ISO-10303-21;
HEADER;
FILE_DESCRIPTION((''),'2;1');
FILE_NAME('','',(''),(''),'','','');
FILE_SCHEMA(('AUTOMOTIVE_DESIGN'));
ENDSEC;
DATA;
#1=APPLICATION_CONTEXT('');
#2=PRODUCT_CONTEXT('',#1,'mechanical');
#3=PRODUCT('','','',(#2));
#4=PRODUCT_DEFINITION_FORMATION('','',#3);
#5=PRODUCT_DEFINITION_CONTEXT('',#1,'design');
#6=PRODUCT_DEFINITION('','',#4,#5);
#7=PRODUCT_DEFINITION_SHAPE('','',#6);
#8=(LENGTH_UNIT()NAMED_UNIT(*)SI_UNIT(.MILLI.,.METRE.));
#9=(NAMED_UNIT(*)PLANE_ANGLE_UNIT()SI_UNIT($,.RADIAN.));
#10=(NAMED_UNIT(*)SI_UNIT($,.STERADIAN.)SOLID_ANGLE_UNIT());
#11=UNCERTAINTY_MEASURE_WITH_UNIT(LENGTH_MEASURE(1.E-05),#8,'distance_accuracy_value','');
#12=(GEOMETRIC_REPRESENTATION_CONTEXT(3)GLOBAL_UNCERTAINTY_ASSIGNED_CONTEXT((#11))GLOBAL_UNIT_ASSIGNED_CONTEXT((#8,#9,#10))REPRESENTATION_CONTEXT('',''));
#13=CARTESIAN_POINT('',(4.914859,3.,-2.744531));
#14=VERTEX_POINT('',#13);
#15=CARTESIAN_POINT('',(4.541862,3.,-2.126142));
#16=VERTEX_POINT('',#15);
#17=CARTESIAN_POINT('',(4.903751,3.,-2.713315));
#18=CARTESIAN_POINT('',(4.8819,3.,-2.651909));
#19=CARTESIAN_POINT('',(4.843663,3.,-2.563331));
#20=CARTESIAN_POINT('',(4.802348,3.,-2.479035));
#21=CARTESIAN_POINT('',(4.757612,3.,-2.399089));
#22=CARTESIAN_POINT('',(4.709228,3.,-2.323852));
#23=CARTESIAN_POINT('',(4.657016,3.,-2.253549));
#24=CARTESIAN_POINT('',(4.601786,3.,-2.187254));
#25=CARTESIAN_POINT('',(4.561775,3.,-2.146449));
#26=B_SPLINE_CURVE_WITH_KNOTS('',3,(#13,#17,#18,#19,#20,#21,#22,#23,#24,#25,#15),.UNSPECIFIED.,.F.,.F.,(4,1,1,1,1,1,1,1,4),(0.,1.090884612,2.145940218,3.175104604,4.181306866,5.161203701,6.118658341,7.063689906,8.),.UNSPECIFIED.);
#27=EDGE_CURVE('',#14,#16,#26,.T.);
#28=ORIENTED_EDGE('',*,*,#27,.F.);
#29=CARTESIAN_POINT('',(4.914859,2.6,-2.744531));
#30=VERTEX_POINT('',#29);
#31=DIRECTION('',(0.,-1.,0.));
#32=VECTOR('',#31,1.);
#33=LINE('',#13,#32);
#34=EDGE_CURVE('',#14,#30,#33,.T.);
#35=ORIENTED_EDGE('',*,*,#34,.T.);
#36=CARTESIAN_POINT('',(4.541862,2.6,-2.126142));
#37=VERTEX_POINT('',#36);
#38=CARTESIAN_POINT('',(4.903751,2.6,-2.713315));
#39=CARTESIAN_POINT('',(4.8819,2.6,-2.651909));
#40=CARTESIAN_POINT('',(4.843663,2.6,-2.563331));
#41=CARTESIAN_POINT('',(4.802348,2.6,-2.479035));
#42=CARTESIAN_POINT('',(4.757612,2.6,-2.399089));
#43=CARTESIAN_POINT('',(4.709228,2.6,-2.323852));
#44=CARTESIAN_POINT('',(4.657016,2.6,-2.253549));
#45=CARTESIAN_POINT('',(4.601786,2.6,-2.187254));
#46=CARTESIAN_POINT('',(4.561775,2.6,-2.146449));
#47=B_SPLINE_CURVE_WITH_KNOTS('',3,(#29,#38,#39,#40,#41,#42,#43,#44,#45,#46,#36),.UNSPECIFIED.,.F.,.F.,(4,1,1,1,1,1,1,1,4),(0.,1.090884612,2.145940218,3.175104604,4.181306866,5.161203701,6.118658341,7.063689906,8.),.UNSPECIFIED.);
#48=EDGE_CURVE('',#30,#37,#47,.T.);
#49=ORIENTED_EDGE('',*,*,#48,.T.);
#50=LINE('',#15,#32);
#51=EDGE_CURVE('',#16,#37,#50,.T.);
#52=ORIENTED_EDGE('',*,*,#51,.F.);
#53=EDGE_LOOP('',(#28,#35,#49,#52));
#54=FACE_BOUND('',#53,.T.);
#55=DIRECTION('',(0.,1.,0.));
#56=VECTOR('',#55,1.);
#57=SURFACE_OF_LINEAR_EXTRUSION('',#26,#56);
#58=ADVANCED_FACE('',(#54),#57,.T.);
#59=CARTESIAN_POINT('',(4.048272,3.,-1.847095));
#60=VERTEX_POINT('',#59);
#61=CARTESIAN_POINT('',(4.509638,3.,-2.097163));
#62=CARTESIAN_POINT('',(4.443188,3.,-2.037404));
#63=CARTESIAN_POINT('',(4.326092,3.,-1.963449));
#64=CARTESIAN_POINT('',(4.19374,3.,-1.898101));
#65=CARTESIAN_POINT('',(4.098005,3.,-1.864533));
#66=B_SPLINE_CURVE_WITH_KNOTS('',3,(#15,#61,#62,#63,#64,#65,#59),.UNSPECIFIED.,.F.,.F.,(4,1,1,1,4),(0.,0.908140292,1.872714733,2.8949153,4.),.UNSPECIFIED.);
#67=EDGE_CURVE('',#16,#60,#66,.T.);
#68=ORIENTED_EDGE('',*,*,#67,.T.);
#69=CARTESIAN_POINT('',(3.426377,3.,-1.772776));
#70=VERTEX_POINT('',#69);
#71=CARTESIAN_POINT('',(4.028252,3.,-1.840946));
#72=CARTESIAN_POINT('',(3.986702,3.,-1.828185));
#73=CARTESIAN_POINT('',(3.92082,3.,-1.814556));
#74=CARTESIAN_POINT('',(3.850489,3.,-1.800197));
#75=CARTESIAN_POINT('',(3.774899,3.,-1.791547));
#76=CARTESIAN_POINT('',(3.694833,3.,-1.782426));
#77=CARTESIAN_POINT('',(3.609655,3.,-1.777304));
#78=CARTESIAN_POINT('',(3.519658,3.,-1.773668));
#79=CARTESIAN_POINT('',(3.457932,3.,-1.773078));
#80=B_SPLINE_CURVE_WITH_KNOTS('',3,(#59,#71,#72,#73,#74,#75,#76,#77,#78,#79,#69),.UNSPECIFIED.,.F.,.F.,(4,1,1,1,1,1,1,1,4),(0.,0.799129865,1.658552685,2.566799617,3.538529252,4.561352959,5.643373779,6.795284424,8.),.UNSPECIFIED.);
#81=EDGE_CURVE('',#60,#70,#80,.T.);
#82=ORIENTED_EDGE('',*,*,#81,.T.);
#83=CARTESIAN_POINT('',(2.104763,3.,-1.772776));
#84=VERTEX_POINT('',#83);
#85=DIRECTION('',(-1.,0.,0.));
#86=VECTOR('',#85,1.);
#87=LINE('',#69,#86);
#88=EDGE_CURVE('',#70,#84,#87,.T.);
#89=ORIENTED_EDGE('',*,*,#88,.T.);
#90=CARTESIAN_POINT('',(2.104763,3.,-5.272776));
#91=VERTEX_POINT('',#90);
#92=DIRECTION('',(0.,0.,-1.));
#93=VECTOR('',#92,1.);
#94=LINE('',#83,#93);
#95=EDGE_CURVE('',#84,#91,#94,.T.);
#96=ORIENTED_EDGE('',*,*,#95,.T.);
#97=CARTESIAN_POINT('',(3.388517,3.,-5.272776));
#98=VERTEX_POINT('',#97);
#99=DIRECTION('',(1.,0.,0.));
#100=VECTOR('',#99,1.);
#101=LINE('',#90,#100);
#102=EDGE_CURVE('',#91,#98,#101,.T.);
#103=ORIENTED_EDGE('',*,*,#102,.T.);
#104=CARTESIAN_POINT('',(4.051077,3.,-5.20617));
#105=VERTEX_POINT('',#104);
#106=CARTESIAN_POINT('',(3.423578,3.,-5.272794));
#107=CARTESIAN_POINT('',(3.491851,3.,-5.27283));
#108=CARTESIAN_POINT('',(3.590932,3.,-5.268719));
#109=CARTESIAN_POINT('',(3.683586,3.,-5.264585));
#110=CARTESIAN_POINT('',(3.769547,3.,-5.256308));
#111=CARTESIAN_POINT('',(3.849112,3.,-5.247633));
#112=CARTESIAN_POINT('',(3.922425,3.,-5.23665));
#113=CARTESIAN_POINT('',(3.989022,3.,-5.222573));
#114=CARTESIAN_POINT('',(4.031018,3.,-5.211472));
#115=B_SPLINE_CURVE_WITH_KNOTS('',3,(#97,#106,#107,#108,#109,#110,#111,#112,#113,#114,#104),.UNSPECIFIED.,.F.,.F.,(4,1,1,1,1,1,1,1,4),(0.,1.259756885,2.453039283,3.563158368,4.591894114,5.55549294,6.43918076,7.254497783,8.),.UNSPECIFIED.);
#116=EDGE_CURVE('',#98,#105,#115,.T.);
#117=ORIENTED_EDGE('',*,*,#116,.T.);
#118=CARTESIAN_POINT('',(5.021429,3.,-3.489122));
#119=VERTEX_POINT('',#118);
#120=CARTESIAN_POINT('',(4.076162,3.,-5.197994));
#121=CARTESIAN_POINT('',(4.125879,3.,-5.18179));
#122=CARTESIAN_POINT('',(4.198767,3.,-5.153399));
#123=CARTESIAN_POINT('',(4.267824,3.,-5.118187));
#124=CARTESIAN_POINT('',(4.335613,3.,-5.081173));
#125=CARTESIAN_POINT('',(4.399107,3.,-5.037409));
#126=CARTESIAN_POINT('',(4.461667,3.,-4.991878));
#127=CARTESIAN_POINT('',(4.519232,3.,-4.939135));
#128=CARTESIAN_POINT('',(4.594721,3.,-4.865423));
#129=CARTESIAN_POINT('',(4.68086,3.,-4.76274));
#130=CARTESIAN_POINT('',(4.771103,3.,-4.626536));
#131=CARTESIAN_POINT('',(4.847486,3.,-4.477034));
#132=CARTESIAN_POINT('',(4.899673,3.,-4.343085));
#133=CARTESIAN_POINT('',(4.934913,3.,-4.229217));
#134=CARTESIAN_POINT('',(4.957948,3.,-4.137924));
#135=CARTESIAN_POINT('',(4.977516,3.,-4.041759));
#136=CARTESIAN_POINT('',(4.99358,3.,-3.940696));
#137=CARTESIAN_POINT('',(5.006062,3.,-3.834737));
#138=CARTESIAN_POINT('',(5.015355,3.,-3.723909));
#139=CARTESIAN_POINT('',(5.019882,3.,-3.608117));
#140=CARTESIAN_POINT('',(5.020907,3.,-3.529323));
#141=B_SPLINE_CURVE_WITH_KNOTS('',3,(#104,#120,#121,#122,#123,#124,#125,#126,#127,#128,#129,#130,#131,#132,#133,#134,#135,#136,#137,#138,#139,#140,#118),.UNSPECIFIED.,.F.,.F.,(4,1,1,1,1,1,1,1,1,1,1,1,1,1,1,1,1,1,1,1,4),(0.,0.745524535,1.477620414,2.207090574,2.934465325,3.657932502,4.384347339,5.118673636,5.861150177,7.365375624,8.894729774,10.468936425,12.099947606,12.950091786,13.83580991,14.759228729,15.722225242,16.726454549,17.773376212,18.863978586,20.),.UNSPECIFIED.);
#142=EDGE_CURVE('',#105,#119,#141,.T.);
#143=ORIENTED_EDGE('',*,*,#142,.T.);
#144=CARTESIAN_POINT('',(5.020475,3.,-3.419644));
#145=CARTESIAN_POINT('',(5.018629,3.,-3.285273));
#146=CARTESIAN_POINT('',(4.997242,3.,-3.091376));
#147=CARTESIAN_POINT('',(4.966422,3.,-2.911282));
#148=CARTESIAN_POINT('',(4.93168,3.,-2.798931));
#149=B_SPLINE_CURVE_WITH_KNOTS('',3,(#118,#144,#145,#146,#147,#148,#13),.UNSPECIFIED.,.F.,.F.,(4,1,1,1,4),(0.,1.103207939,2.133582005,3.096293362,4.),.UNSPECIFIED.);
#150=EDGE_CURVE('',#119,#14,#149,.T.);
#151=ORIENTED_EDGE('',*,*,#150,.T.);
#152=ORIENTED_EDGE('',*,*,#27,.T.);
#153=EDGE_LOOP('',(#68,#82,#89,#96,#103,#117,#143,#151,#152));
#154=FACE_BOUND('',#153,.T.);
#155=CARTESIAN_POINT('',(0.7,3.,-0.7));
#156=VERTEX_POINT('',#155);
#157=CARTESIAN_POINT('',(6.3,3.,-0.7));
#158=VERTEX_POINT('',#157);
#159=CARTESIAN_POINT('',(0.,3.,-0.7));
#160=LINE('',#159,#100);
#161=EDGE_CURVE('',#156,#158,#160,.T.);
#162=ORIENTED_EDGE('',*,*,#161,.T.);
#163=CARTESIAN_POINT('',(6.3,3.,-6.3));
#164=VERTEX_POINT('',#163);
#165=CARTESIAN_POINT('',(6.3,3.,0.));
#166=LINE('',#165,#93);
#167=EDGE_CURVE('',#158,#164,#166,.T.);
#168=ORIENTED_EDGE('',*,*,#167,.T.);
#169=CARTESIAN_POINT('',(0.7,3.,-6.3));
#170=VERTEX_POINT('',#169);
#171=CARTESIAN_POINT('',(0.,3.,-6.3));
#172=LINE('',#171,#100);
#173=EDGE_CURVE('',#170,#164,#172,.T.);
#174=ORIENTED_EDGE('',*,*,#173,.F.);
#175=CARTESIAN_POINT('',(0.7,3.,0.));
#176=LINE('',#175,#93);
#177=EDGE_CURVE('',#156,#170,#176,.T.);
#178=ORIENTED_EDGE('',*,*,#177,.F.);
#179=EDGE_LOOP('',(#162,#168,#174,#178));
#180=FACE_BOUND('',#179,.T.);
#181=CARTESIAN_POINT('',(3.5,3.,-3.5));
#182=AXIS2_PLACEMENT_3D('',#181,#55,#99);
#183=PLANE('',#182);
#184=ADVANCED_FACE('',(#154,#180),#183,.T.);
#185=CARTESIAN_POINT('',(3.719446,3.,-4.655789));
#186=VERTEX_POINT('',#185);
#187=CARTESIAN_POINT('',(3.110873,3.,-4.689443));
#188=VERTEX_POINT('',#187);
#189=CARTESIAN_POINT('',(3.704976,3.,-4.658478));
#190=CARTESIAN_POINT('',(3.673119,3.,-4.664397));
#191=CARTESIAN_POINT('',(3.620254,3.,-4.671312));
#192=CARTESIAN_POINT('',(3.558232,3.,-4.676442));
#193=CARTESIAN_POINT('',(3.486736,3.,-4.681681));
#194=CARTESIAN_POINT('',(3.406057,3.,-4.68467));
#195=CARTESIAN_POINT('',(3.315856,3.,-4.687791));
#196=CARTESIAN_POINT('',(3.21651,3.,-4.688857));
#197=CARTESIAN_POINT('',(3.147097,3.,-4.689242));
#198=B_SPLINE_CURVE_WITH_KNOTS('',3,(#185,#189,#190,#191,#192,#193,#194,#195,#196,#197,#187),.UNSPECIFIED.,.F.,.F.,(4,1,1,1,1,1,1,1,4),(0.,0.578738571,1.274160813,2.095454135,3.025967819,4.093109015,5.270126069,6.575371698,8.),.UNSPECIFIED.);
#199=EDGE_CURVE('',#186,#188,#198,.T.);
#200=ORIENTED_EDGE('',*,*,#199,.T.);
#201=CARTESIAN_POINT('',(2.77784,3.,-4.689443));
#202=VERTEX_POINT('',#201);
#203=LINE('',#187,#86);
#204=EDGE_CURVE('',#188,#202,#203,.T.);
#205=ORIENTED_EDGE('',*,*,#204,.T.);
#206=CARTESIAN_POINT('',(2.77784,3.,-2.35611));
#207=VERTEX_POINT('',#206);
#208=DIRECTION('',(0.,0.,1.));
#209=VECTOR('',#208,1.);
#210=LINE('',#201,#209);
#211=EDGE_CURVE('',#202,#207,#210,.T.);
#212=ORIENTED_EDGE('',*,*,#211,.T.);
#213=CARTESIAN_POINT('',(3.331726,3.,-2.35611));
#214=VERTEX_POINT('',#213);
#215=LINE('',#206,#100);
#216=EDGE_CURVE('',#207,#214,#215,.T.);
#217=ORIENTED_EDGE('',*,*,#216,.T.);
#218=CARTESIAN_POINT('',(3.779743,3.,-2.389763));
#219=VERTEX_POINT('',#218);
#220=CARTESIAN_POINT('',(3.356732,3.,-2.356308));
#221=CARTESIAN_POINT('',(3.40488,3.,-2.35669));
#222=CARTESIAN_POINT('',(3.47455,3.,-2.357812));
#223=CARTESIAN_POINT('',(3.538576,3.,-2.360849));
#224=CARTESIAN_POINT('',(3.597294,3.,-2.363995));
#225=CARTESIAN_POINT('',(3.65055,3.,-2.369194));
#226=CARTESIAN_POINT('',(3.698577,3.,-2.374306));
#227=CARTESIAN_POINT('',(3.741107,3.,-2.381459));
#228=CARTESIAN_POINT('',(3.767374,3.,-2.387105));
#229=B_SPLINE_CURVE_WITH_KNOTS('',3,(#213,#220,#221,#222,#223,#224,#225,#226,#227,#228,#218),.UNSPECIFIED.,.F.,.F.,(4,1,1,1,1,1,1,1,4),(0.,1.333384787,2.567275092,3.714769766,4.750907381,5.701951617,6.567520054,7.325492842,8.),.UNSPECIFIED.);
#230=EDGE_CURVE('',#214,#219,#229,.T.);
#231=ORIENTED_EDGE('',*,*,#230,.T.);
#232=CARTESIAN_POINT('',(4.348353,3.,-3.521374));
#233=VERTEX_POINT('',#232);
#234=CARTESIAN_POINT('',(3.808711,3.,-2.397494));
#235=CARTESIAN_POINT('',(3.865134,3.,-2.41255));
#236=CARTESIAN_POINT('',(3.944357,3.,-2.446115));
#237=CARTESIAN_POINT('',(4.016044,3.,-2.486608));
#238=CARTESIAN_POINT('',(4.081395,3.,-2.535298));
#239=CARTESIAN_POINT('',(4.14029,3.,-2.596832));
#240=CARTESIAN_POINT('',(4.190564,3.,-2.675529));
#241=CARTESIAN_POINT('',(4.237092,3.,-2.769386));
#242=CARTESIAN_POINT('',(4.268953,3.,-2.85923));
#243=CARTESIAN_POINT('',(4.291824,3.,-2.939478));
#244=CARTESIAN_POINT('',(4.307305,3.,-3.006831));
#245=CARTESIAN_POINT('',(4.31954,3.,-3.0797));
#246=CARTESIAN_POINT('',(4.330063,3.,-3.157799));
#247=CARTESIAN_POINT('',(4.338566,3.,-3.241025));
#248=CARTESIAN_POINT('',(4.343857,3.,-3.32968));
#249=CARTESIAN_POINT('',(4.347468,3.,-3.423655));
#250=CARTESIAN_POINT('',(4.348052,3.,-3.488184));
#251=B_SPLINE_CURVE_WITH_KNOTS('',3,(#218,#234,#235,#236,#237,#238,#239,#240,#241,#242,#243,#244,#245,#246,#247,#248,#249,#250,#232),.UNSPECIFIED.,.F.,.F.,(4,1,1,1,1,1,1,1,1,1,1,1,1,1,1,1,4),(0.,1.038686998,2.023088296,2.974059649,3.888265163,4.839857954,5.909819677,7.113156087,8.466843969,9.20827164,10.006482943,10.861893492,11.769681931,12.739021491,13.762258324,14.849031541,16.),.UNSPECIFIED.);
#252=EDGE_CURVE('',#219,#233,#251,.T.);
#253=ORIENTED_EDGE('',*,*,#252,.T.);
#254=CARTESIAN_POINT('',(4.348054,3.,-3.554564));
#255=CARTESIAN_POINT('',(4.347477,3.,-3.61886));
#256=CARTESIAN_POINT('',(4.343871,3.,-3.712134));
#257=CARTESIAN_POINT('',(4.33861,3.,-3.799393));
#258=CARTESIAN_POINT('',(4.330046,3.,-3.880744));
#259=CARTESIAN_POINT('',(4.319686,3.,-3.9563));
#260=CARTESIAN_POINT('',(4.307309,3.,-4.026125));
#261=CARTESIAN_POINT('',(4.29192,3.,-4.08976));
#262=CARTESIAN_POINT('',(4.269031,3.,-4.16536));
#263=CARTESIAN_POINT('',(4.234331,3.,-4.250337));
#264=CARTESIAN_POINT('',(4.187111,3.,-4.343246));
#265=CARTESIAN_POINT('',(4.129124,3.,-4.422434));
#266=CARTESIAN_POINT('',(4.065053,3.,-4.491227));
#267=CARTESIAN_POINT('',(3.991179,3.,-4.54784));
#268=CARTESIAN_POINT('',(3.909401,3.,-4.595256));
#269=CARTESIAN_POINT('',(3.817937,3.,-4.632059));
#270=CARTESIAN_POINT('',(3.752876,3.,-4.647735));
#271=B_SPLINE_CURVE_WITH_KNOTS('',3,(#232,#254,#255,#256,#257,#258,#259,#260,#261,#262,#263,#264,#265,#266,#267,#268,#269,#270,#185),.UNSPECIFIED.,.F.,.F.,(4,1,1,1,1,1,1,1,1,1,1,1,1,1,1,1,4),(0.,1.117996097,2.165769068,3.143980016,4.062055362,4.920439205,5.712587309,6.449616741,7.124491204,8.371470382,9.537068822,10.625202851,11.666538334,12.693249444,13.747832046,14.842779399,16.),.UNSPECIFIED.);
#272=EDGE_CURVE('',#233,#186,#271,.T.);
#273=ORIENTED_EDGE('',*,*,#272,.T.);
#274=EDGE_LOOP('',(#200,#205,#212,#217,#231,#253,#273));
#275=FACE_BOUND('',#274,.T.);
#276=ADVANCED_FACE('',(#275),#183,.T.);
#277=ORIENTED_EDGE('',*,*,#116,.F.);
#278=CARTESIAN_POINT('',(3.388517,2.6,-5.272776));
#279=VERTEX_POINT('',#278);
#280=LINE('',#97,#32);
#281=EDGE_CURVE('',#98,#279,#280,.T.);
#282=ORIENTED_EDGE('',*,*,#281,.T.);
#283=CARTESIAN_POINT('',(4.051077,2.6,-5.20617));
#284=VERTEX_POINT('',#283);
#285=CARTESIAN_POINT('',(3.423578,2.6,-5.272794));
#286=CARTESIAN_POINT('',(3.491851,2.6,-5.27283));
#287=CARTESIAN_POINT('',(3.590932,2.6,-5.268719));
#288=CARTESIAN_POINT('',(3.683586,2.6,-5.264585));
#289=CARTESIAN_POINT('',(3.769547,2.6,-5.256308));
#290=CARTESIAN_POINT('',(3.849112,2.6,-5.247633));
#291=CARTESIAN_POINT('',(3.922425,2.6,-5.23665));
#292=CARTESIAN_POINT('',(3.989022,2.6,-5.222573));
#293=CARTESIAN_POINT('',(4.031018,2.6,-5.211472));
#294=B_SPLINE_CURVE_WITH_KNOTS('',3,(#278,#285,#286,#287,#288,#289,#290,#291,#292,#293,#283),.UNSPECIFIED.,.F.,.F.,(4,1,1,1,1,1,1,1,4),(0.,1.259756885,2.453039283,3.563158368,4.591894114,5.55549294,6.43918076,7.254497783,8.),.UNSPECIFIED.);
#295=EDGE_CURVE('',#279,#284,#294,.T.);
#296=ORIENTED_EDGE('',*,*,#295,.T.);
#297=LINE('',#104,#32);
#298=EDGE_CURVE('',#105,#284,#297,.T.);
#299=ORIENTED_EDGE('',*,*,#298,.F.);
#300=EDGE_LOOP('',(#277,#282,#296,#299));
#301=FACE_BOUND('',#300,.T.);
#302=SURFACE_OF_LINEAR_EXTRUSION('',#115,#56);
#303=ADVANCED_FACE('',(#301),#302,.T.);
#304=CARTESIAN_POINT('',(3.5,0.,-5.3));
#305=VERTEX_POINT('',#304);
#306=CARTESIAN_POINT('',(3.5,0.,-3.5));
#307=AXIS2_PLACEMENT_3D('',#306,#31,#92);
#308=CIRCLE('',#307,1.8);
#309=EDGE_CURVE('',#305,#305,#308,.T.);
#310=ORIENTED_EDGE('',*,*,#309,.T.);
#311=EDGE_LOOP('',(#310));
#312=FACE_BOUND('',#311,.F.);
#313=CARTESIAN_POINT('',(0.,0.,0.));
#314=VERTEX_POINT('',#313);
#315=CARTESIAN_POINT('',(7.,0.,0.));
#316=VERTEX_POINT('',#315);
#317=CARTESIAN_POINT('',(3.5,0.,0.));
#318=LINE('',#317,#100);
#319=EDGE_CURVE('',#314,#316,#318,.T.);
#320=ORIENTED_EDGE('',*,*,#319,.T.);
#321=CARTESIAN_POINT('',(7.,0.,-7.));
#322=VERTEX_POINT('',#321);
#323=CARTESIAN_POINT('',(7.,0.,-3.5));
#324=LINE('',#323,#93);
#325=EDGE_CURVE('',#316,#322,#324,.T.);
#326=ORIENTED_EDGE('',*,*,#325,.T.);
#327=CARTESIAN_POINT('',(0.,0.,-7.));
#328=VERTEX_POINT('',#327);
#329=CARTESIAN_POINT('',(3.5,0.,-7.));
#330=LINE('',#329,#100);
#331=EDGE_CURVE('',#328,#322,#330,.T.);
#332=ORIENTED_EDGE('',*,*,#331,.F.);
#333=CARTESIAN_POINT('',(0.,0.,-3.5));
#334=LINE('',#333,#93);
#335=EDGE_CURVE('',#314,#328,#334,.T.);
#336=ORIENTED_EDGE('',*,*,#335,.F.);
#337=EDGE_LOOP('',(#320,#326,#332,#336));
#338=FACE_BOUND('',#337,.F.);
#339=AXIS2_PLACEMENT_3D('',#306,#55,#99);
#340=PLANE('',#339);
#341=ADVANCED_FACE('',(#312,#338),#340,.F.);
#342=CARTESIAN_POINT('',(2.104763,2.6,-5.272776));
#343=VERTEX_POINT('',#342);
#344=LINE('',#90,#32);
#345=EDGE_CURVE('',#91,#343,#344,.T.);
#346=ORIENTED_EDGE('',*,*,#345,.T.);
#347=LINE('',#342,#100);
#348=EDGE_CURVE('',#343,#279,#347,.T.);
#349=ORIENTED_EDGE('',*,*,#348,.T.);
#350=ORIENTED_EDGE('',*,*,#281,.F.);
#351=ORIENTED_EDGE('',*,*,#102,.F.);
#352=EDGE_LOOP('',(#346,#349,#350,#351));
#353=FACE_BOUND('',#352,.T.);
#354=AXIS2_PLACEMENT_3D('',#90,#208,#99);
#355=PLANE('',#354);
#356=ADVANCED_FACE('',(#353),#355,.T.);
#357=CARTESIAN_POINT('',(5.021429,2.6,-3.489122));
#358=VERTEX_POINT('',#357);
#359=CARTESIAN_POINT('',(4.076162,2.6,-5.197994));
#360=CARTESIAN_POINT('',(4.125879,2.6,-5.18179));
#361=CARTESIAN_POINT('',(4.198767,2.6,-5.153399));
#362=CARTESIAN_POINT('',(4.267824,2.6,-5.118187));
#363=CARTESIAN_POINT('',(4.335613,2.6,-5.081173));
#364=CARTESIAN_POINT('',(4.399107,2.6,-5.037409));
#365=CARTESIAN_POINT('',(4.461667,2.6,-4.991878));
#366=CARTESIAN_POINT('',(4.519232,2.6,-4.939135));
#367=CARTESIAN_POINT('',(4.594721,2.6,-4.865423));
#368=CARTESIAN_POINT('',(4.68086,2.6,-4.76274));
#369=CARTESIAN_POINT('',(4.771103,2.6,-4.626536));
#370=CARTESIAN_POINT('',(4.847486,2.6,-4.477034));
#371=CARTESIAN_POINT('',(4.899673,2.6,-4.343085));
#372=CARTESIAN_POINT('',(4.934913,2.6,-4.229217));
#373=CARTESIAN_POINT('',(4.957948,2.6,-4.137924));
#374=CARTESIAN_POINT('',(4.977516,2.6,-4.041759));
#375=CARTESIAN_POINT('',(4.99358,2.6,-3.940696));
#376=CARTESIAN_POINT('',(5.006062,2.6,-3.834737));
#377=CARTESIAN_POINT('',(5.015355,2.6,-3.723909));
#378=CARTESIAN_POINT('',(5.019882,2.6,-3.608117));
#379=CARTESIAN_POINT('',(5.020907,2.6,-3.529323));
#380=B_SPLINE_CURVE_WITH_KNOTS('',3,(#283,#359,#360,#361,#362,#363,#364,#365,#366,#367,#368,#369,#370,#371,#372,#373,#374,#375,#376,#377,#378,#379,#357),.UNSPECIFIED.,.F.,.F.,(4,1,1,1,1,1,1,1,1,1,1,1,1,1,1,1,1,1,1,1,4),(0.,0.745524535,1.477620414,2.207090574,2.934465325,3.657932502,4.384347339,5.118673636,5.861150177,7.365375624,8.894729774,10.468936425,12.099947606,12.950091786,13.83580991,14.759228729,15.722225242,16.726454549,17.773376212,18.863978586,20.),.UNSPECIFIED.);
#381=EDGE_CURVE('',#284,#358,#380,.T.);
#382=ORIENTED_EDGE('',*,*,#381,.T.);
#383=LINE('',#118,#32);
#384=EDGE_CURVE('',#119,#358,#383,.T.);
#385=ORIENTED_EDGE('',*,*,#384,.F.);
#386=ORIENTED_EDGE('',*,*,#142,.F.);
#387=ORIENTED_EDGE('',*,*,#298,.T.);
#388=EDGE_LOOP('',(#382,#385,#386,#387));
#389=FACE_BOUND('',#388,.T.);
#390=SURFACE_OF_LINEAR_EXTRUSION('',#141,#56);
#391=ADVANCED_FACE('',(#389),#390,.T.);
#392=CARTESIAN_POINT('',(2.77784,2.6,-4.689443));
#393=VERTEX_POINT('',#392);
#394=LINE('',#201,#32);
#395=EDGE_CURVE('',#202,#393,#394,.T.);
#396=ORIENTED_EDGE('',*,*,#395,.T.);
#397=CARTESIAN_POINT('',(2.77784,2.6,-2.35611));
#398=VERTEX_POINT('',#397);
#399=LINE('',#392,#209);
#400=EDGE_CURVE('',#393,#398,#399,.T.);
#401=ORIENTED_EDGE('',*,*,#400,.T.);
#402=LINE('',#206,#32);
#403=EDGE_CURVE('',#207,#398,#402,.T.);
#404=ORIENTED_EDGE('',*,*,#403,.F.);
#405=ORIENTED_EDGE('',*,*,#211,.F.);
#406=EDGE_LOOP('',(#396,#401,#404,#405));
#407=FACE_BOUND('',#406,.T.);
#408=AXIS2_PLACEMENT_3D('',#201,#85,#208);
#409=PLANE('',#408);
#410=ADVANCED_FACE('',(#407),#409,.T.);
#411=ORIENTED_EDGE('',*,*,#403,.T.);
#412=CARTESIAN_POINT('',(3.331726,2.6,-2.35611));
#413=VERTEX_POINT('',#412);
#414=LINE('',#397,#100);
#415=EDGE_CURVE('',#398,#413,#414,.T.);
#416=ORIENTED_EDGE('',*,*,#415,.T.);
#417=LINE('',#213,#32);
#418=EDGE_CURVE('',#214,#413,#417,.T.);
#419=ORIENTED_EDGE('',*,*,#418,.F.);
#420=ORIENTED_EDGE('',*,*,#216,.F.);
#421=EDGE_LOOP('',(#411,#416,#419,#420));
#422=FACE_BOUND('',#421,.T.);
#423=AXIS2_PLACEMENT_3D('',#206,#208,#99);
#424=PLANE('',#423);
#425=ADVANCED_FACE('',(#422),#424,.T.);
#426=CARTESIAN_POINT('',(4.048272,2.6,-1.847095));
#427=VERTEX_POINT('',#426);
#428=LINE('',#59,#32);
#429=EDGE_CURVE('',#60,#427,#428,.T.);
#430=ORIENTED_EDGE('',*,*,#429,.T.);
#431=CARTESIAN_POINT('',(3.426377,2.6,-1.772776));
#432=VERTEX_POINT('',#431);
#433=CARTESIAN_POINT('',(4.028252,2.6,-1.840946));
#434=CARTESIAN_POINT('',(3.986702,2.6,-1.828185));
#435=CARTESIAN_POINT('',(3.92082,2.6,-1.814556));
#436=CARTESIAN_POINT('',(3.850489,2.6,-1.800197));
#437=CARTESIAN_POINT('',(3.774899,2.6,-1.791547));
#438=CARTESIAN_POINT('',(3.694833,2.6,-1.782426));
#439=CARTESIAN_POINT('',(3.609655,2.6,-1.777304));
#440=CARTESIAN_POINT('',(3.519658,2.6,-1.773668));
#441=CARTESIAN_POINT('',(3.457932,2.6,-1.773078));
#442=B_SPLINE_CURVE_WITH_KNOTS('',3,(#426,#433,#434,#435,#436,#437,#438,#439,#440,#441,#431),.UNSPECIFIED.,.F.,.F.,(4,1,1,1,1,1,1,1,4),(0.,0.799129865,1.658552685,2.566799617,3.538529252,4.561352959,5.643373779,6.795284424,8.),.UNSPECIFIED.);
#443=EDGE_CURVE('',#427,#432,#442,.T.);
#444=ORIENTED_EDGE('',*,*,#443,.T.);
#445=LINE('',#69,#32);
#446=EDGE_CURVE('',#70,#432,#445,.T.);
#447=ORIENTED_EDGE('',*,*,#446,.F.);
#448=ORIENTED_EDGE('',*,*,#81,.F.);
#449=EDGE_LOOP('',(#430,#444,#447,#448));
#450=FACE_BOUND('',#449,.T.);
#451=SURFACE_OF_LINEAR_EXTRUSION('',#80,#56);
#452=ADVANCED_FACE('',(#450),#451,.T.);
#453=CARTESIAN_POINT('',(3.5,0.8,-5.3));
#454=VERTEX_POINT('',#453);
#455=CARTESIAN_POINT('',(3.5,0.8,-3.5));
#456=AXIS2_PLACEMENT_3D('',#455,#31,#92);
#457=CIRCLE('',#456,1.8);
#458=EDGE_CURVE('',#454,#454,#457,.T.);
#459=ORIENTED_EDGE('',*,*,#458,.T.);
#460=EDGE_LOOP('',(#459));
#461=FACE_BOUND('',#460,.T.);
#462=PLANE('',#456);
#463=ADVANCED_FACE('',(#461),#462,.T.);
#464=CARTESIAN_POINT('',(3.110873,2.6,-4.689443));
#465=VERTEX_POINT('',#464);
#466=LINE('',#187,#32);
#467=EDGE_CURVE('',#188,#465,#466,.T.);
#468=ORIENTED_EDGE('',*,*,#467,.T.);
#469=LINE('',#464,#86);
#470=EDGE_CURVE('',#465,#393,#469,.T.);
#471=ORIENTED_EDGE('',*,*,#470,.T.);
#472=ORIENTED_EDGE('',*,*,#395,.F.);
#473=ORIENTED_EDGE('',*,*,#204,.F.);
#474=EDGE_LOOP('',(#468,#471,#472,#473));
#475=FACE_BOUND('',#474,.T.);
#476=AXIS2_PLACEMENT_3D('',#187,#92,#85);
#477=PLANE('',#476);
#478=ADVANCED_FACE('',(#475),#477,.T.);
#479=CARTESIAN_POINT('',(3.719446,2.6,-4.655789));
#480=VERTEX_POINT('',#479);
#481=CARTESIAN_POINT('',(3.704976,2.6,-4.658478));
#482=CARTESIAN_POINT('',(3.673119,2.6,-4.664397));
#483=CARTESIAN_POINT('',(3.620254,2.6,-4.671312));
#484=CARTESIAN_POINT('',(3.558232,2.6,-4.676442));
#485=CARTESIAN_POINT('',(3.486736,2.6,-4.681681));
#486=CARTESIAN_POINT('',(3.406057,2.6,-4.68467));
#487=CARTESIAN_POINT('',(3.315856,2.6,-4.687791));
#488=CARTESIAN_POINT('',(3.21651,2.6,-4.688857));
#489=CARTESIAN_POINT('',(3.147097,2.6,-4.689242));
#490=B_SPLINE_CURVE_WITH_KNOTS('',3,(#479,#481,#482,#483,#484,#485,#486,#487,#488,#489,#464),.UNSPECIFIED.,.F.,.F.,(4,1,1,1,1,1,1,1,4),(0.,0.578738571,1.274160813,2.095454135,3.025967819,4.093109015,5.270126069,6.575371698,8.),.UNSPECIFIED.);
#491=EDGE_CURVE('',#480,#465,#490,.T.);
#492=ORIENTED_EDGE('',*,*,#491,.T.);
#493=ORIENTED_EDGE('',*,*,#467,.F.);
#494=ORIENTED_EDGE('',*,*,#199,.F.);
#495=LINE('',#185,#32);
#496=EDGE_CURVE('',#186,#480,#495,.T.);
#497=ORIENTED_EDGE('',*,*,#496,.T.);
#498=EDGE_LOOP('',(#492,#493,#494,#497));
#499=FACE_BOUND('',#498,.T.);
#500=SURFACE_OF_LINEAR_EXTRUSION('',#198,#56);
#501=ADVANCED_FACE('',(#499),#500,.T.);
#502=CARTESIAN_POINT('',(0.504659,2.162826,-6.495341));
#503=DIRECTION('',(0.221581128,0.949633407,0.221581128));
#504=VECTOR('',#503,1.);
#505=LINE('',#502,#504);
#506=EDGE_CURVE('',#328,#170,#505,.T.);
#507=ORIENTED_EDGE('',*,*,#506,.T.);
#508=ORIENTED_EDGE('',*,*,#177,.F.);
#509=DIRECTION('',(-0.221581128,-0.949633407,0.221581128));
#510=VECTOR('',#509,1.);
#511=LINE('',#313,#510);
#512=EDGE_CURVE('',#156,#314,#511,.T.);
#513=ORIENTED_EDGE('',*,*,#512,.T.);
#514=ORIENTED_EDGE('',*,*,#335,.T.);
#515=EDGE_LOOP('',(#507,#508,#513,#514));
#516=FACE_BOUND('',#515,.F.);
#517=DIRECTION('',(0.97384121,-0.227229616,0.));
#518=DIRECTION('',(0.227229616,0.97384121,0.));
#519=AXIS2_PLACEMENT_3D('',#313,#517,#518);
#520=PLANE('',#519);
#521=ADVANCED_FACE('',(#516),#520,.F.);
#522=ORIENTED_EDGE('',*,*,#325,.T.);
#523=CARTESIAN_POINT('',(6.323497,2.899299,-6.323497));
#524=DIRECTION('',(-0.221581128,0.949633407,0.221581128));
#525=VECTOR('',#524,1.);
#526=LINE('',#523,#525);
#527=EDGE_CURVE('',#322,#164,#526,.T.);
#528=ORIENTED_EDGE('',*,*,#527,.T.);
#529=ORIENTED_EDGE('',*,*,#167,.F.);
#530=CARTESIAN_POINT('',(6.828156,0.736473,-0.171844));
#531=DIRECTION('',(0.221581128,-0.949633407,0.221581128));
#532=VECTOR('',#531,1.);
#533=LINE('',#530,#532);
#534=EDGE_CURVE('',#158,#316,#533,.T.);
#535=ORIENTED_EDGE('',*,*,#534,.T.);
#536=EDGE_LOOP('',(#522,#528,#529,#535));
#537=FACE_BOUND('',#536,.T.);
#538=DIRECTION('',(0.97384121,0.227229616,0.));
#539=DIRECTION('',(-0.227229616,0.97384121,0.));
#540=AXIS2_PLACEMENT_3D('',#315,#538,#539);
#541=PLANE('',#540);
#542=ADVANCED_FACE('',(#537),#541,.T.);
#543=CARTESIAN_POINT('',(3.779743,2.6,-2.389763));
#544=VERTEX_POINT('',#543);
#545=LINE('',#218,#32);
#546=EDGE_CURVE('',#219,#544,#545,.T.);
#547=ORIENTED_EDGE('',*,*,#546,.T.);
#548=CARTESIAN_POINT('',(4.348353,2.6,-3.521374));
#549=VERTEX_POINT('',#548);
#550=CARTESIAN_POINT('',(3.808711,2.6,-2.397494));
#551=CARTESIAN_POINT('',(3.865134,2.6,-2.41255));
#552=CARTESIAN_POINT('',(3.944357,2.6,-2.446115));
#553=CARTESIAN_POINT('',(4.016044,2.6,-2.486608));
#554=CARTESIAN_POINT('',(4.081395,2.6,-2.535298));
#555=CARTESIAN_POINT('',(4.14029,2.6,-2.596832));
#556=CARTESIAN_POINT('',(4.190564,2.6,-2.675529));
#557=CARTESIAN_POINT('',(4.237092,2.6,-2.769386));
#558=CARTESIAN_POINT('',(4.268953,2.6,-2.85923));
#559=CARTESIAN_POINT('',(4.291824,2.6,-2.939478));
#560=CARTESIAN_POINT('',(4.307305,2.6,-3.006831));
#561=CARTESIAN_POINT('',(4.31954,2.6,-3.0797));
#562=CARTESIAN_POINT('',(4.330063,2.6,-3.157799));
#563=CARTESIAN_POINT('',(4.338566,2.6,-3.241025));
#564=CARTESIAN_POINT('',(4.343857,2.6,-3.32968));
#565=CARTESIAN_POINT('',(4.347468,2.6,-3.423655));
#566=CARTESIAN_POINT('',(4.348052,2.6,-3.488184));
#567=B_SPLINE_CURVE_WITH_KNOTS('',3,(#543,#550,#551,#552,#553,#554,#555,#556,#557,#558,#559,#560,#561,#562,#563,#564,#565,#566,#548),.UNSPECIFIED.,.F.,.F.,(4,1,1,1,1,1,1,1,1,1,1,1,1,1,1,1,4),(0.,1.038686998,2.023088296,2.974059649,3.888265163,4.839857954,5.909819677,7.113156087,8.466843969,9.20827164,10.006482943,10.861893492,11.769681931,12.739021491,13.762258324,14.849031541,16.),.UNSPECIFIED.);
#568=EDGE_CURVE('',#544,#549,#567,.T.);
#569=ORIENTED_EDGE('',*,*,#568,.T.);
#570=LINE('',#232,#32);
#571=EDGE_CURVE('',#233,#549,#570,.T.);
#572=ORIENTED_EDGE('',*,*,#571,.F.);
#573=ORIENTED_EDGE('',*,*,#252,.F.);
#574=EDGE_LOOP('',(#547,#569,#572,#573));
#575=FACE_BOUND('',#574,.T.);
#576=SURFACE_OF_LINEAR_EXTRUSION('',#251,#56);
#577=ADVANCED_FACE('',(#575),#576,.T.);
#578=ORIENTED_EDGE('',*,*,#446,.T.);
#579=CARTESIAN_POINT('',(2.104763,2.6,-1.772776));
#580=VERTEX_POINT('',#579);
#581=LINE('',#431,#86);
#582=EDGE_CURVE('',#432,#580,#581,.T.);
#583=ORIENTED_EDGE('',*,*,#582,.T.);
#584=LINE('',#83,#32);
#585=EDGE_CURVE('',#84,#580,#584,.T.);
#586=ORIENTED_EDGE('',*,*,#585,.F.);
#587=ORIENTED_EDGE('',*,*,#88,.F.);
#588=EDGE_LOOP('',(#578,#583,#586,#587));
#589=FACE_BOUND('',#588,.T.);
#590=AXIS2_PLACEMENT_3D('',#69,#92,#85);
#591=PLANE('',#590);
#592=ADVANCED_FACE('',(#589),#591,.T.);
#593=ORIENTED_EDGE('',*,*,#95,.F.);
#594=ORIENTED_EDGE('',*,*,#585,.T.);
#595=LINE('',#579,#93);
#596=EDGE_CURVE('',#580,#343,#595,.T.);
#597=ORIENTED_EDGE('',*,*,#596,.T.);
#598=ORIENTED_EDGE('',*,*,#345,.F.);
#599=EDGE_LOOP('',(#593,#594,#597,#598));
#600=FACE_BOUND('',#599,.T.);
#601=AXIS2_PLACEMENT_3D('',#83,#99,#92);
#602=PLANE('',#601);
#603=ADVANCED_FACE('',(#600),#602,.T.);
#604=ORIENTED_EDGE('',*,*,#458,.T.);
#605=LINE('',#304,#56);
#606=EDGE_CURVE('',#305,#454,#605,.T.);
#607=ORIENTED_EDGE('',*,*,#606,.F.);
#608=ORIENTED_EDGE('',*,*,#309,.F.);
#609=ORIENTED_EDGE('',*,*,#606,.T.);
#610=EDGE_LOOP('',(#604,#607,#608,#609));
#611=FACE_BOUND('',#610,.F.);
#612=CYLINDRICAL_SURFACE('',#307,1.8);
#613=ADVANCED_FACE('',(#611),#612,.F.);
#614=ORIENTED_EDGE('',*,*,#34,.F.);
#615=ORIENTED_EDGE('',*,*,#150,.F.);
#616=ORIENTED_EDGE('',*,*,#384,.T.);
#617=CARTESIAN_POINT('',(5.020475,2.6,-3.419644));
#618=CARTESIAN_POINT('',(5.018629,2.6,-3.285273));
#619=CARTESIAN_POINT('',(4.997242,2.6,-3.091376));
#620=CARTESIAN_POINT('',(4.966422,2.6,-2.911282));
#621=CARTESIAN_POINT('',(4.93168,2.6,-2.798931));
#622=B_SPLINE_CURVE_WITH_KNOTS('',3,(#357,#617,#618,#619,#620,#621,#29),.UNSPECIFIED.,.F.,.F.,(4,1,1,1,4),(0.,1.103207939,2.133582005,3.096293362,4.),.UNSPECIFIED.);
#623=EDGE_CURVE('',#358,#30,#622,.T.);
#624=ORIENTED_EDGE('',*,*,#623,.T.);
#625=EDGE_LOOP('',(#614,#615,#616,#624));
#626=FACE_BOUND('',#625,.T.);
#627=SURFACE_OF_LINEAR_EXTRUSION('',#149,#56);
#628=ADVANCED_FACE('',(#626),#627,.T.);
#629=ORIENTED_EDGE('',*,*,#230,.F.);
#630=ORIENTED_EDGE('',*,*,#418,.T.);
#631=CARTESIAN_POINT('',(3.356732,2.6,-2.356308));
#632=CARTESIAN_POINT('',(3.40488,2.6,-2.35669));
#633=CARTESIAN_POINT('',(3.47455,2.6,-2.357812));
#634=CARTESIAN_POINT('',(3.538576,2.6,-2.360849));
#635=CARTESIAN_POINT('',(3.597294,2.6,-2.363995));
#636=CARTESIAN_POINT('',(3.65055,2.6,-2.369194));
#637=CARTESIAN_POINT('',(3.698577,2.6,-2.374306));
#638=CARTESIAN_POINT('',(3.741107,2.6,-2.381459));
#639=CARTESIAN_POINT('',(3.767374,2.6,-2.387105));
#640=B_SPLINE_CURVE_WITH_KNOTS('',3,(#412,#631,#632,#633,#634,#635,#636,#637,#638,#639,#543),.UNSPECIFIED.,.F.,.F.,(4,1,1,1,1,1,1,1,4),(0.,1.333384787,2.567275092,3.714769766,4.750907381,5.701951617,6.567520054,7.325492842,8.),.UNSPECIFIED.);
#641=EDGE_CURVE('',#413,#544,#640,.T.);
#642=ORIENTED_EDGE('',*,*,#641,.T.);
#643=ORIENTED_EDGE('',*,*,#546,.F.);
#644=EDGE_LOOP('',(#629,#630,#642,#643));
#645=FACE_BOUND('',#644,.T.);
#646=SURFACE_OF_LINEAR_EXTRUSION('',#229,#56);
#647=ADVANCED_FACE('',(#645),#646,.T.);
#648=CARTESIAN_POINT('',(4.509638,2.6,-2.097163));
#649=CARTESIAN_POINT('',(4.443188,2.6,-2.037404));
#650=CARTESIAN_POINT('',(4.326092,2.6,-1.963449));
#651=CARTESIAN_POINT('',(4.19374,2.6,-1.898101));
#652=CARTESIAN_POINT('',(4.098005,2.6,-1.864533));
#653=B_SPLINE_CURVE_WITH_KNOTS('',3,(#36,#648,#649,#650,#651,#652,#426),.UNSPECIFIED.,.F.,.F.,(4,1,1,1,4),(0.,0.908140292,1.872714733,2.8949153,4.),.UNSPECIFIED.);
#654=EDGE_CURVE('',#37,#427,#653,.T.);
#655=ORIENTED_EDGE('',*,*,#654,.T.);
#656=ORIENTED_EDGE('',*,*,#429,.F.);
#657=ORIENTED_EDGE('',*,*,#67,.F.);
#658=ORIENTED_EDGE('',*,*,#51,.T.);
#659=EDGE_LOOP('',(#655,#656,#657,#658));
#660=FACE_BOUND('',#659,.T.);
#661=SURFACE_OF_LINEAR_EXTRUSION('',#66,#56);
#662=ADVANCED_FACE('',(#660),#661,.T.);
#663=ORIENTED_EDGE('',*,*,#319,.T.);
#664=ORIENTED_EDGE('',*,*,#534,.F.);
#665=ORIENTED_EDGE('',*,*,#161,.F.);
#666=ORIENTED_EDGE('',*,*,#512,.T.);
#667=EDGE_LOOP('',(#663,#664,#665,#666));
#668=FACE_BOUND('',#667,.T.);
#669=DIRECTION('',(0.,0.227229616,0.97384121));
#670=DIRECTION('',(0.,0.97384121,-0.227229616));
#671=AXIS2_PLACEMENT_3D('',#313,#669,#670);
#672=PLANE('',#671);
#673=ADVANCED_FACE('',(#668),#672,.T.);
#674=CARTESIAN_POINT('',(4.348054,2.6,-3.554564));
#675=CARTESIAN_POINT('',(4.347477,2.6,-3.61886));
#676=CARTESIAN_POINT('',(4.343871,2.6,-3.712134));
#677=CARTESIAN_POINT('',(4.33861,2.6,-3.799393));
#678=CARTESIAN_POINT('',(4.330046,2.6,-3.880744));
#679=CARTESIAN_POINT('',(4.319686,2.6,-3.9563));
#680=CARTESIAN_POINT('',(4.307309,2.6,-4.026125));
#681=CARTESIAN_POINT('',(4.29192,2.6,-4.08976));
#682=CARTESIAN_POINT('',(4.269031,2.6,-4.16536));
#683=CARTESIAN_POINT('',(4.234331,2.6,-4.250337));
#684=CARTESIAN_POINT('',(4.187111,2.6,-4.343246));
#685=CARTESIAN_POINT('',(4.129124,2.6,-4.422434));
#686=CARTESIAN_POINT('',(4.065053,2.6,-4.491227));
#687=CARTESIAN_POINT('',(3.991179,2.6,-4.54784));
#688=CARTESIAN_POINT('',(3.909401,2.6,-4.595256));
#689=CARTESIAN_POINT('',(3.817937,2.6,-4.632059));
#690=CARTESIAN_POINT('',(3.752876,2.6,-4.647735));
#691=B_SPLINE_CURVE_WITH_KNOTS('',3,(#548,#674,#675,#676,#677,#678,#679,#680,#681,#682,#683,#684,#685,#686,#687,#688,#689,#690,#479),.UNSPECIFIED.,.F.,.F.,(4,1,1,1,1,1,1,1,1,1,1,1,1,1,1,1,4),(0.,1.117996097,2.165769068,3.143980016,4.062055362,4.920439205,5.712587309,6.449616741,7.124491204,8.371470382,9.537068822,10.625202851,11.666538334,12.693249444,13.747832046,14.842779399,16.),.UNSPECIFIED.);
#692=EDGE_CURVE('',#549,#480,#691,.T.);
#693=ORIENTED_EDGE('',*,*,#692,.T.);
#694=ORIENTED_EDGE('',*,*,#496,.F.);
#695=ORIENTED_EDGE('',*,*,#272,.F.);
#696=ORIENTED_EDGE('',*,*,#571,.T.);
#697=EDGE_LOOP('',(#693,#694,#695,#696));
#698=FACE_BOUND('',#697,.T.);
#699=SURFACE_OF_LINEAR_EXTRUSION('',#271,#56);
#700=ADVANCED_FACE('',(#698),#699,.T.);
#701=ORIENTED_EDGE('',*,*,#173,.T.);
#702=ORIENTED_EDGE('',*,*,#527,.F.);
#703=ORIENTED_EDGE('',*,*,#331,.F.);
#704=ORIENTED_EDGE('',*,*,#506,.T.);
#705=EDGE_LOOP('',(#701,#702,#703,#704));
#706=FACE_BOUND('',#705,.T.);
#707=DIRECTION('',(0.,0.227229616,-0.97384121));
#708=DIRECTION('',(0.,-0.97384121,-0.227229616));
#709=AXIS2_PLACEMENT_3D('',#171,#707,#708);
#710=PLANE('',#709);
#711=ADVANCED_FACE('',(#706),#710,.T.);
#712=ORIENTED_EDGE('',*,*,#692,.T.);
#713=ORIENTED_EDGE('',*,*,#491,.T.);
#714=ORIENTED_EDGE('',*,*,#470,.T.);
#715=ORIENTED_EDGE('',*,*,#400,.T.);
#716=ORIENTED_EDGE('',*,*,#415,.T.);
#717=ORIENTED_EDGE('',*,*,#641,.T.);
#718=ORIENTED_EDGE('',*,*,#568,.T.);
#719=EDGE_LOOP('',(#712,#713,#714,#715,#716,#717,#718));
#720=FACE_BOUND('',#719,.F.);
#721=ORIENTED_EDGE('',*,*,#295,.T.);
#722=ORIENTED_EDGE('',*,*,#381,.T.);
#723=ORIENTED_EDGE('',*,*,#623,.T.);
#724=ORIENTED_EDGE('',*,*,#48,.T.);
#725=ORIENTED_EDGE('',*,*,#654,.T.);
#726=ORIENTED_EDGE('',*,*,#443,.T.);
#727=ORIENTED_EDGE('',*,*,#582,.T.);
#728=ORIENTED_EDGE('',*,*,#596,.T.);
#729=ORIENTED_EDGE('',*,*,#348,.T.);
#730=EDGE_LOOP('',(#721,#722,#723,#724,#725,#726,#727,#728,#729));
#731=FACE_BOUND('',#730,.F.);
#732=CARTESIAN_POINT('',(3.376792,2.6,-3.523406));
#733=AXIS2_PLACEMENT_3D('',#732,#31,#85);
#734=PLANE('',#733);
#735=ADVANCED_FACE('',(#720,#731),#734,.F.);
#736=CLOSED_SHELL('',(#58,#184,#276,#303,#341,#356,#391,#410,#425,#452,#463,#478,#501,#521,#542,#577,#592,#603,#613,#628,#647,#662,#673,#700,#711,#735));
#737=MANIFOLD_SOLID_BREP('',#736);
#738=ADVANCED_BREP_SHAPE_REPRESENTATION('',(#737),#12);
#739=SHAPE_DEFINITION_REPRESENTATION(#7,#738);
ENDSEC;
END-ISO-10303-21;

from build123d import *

# Parameters (mm, degrees)
SKETCH1_W           = 7
SKETCH1_H           = 7
BOSS_EXTRUDE1_DEPTH = 3
CUT_EXTRUDE1_DEPTH  = 7
CUT_EXTRUDE2_DEPTH  = 11
SKETCH4_R           = 1.8
CUT_EXTRUDE3_DEPTH  = 0.8
CUT_EXTRUDE4_DEPTH  = 0.4


with BuildPart() as part:
    # Sketch1 → Boss-Extrude1 (new body)
    with BuildSketch(Plane(origin=(0, 0, 0), x_dir=(1, 0, 0), z_dir=(0, 1, 0))):
        with Locations((3.5, 3.5)):
            Rectangle(SKETCH1_W, SKETCH1_H)
    extrude(amount=BOSS_EXTRUDE1_DEPTH)

    # Sketch2 → Cut-Extrude1 (cut)
    with BuildSketch(Plane.XY):
        Polygon((0, 0), (0.7, 3), (0, 3), align=None)
        Polygon((7, 0), (6.3, 3), (7, 3), align=None)
    extrude(amount=-CUT_EXTRUDE1_DEPTH, mode=Mode.SUBTRACT)

    # Sketch3 → Cut-Extrude2 (cut)
    with BuildSketch(Plane(origin=(0, 0, 0), x_dir=(0, 0, -1), z_dir=(1, 0, 0))):
        Polygon((0, 0), (0.7, 3), (0, 3), align=None)
        Polygon((7, 3), (6.3, 3), (7, 0), align=None)
    extrude(amount=CUT_EXTRUDE2_DEPTH, mode=Mode.SUBTRACT)

    # Sketch4 → Cut-Extrude3 (cut)
    with BuildSketch(Plane.XZ):
        with Locations(Location((3.5, -3.5, 0), (0, 0, 270))):
            Circle(SKETCH4_R)
    extrude(amount=-CUT_EXTRUDE3_DEPTH, mode=Mode.SUBTRACT)

    # Sketch5 → Cut-Extrude4 (cut)
    with BuildSketch(Plane(origin=(0, 3, 0), x_dir=(1, 0, 0), z_dir=(0, 1, 0))):
        with BuildLine():
            Line((2.104762775, 5.272776287), (3.388516782, 5.272776287))
            add(Edge.make_bspline(
                [(3.388516782, 5.272776287), (3.423578188, 5.272794463), (3.49185089, 5.272829856), (3.590932455, 5.26871941), (3.683586456, 5.264584843), (3.769546954, 5.256308342), (3.849112172, 5.247633102), (3.922424888, 5.236649595), (3.989021979, 5.222573028), (4.031018068, 5.211471972), (4.051076878, 5.206169716)],
                knots=[0, 0, 0, 0, 1.259756885, 2.453039283, 3.563158368, 4.591894114, 5.55549294, 6.43918076, 7.254497783, 8, 8, 8, 8], degree=3))
            add(Edge.make_bspline(
                [(4.051076878, 5.206169716), (4.076161646, 5.197994199), (4.125879345, 5.181790425), (4.198767023, 5.153398715), (4.267824301, 5.118187268), (4.335613125, 5.081173488), (4.399107207, 5.037408997), (4.461666778, 4.991877903), (4.519231823, 4.939134894), (4.594720977, 4.865423065), (4.680859839, 4.762740157), (4.771103422, 4.626536439), (4.847485635, 4.477034119), (4.899673474, 4.343085246), (4.93491273, 4.229217389), (4.957948246, 4.137924241), (4.977515517, 4.041758553), (4.993580306, 3.940696082), (5.006062185, 3.834736813), (5.015355077, 3.72390899), (5.019881652, 3.608116873), (5.020906543, 3.529323002), (5.021429442, 3.489122441)],
                knots=[0, 0, 0, 0, 0.745524535, 1.477620414, 2.207090574, 2.934465325, 3.657932502, 4.384347339, 5.118673636, 5.861150177, 7.365375624, 8.894729774, 10.468936425, 12.099947606, 12.950091786, 13.83580991, 14.759228729, 15.722225242, 16.726454549, 17.773376212, 18.863978586, 20, 20, 20, 20], degree=3))
            add(Edge.make_bspline(
                [(5.021429442, 3.489122441), (5.020474912, 3.419643533), (5.01862887, 3.285272719), (4.99724236, 3.091376197), (4.966421697, 2.911281512), (4.931680416, 2.798930618), (4.914858929, 2.744531095)],
                knots=[0, 0, 0, 0, 1.103207939, 2.133582005, 3.096293362, 4, 4, 4, 4], degree=3))
            add(Edge.make_bspline(
                [(4.914858929, 2.744531095), (4.903751174, 2.713315462), (4.881900487, 2.651909444), (4.843663423, 2.56333096), (4.802348006, 2.479035433), (4.75761154, 2.399089275), (4.709228004, 2.323852087), (4.657016426, 2.253548907), (4.601786127, 2.187254174), (4.561774971, 2.146449452), (4.541862134, 2.126141671)],
                knots=[0, 0, 0, 0, 1.090884612, 2.145940218, 3.175104604, 4.181306866, 5.161203701, 6.118658341, 7.063689906, 8, 8, 8, 8], degree=3))
            add(Edge.make_bspline(
                [(4.541862134, 2.126141671), (4.509638353, 2.097162572), (4.443188324, 2.037403538), (4.326091991, 1.963449345), (4.193740208, 1.898101387), (4.098005021, 1.864533226), (4.048272391, 1.847095197)],
                knots=[0, 0, 0, 0, 0.908140292, 1.872714733, 2.8949153, 4, 4, 4, 4], degree=3))
            add(Edge.make_bspline(
                [(4.048272391, 1.847095197), (4.028252483, 1.840946487), (3.986702201, 1.828185158), (3.920820132, 1.814555795), (3.85048937, 1.800197126), (3.774898904, 1.791547242), (3.6948334, 1.782425557), (3.60965481, 1.77730424), (3.519658403, 1.773668403), (3.457932074, 1.773078068), (3.426377359, 1.772776287)],
                knots=[0, 0, 0, 0, 0.799129865, 1.658552685, 2.566799617, 3.538529252, 4.561352959, 5.643373779, 6.795284424, 8, 8, 8, 8], degree=3))
            Line((3.426377359, 1.772776287), (2.104762775, 1.772776287))
            Line((2.104762775, 1.772776287), (2.104762775, 5.272776287))
        make_face()
        with BuildLine():
            Line((2.777839698, 4.689442953), (2.777839698, 2.35610962))
            Line((2.777839698, 2.35610962), (3.331725916, 2.35610962))
            add(Edge.make_bspline(
                [(3.331725916, 2.35610962), (3.356732427, 2.356307939), (3.404879513, 2.356689778), (3.474549579, 2.357811767), (3.538575784, 2.360849202), (3.597293536, 2.36399549), (3.65054997, 2.369193709), (3.698576813, 2.374306355), (3.741106724, 2.38145884), (3.767374243, 2.387104916), (3.779742743, 2.389763466)],
                knots=[0, 0, 0, 0, 1.333384787, 2.567275092, 3.714769766, 4.750907381, 5.701951617, 6.567520054, 7.325492842, 8, 8, 8, 8], degree=3))
            add(Edge.make_bspline(
                [(3.779742743, 2.389763466), (3.808711174, 2.397493681), (3.865134036, 2.412550099), (3.944357438, 2.44611519), (4.01604441, 2.486607799), (4.08139549, 2.535298421), (4.140290341, 2.596832105), (4.190564295, 2.675528863), (4.237091515, 2.769385848), (4.268953366, 2.859230456), (4.291823741, 2.939477558), (4.307305109, 3.006830931), (4.319539616, 3.07970047), (4.330062887, 3.157798585), (4.338565941, 3.241024846), (4.343856943, 3.329679796), (4.347468084, 3.423654914), (4.348052123, 3.488183941), (4.348352519, 3.521374043)],
                knots=[0, 0, 0, 0, 1.038686998, 2.023088296, 2.974059649, 3.888265163, 4.839857954, 5.909819677, 7.113156087, 8.466843969, 9.20827164, 10.006482943, 10.861893492, 11.769681931, 12.739021491, 13.762258324, 14.849031541, 16, 16, 16, 16], degree=3))
            add(Edge.make_bspline(
                [(4.348352519, 3.521374043), (4.348054433, 3.554564247), (4.347476984, 3.618859926), (4.34387138, 3.712134321), (4.338610098, 3.799393203), (4.330046489, 3.880744437), (4.319686346, 3.956300457), (4.307308533, 4.0261252), (4.291920489, 4.089760429), (4.26903066, 4.165360255), (4.234330859, 4.250336809), (4.187111202, 4.343245577), (4.129123838, 4.422434336), (4.065053447, 4.491226906), (3.991179205, 4.547839715), (3.909400596, 4.595256239), (3.817937068, 4.632059083), (3.752876188, 4.647734621), (3.719446269, 4.655789107)],
                knots=[0, 0, 0, 0, 1.117996097, 2.165769068, 3.143980016, 4.062055362, 4.920439205, 5.712587309, 6.449616741, 7.124491204, 8.371470382, 9.537068822, 10.625202851, 11.666538334, 12.693249444, 13.747832046, 14.842779399, 16, 16, 16, 16], degree=3))
            add(Edge.make_bspline(
                [(3.719446269, 4.655789107), (3.704976171, 4.658477854), (3.673118556, 4.664397445), (3.620253908, 4.671311562), (3.558231897, 4.676442427), (3.486736347, 4.68168059), (3.406056748, 4.684670369), (3.31585552, 4.687790688), (3.21651011, 4.688856584), (3.147096928, 4.68924188), (3.110872551, 4.689442953)],
                knots=[0, 0, 0, 0, 0.578738571, 1.274160813, 2.095454135, 3.025967819, 4.093109015, 5.270126069, 6.575371698, 8, 8, 8, 8], degree=3))
            Line((3.110872551, 4.689442953), (2.777839698, 4.689442953))
        make_face(mode=Mode.SUBTRACT)
    extrude(amount=-CUT_EXTRUDE4_DEPTH, mode=Mode.SUBTRACT)


solid = part.part
